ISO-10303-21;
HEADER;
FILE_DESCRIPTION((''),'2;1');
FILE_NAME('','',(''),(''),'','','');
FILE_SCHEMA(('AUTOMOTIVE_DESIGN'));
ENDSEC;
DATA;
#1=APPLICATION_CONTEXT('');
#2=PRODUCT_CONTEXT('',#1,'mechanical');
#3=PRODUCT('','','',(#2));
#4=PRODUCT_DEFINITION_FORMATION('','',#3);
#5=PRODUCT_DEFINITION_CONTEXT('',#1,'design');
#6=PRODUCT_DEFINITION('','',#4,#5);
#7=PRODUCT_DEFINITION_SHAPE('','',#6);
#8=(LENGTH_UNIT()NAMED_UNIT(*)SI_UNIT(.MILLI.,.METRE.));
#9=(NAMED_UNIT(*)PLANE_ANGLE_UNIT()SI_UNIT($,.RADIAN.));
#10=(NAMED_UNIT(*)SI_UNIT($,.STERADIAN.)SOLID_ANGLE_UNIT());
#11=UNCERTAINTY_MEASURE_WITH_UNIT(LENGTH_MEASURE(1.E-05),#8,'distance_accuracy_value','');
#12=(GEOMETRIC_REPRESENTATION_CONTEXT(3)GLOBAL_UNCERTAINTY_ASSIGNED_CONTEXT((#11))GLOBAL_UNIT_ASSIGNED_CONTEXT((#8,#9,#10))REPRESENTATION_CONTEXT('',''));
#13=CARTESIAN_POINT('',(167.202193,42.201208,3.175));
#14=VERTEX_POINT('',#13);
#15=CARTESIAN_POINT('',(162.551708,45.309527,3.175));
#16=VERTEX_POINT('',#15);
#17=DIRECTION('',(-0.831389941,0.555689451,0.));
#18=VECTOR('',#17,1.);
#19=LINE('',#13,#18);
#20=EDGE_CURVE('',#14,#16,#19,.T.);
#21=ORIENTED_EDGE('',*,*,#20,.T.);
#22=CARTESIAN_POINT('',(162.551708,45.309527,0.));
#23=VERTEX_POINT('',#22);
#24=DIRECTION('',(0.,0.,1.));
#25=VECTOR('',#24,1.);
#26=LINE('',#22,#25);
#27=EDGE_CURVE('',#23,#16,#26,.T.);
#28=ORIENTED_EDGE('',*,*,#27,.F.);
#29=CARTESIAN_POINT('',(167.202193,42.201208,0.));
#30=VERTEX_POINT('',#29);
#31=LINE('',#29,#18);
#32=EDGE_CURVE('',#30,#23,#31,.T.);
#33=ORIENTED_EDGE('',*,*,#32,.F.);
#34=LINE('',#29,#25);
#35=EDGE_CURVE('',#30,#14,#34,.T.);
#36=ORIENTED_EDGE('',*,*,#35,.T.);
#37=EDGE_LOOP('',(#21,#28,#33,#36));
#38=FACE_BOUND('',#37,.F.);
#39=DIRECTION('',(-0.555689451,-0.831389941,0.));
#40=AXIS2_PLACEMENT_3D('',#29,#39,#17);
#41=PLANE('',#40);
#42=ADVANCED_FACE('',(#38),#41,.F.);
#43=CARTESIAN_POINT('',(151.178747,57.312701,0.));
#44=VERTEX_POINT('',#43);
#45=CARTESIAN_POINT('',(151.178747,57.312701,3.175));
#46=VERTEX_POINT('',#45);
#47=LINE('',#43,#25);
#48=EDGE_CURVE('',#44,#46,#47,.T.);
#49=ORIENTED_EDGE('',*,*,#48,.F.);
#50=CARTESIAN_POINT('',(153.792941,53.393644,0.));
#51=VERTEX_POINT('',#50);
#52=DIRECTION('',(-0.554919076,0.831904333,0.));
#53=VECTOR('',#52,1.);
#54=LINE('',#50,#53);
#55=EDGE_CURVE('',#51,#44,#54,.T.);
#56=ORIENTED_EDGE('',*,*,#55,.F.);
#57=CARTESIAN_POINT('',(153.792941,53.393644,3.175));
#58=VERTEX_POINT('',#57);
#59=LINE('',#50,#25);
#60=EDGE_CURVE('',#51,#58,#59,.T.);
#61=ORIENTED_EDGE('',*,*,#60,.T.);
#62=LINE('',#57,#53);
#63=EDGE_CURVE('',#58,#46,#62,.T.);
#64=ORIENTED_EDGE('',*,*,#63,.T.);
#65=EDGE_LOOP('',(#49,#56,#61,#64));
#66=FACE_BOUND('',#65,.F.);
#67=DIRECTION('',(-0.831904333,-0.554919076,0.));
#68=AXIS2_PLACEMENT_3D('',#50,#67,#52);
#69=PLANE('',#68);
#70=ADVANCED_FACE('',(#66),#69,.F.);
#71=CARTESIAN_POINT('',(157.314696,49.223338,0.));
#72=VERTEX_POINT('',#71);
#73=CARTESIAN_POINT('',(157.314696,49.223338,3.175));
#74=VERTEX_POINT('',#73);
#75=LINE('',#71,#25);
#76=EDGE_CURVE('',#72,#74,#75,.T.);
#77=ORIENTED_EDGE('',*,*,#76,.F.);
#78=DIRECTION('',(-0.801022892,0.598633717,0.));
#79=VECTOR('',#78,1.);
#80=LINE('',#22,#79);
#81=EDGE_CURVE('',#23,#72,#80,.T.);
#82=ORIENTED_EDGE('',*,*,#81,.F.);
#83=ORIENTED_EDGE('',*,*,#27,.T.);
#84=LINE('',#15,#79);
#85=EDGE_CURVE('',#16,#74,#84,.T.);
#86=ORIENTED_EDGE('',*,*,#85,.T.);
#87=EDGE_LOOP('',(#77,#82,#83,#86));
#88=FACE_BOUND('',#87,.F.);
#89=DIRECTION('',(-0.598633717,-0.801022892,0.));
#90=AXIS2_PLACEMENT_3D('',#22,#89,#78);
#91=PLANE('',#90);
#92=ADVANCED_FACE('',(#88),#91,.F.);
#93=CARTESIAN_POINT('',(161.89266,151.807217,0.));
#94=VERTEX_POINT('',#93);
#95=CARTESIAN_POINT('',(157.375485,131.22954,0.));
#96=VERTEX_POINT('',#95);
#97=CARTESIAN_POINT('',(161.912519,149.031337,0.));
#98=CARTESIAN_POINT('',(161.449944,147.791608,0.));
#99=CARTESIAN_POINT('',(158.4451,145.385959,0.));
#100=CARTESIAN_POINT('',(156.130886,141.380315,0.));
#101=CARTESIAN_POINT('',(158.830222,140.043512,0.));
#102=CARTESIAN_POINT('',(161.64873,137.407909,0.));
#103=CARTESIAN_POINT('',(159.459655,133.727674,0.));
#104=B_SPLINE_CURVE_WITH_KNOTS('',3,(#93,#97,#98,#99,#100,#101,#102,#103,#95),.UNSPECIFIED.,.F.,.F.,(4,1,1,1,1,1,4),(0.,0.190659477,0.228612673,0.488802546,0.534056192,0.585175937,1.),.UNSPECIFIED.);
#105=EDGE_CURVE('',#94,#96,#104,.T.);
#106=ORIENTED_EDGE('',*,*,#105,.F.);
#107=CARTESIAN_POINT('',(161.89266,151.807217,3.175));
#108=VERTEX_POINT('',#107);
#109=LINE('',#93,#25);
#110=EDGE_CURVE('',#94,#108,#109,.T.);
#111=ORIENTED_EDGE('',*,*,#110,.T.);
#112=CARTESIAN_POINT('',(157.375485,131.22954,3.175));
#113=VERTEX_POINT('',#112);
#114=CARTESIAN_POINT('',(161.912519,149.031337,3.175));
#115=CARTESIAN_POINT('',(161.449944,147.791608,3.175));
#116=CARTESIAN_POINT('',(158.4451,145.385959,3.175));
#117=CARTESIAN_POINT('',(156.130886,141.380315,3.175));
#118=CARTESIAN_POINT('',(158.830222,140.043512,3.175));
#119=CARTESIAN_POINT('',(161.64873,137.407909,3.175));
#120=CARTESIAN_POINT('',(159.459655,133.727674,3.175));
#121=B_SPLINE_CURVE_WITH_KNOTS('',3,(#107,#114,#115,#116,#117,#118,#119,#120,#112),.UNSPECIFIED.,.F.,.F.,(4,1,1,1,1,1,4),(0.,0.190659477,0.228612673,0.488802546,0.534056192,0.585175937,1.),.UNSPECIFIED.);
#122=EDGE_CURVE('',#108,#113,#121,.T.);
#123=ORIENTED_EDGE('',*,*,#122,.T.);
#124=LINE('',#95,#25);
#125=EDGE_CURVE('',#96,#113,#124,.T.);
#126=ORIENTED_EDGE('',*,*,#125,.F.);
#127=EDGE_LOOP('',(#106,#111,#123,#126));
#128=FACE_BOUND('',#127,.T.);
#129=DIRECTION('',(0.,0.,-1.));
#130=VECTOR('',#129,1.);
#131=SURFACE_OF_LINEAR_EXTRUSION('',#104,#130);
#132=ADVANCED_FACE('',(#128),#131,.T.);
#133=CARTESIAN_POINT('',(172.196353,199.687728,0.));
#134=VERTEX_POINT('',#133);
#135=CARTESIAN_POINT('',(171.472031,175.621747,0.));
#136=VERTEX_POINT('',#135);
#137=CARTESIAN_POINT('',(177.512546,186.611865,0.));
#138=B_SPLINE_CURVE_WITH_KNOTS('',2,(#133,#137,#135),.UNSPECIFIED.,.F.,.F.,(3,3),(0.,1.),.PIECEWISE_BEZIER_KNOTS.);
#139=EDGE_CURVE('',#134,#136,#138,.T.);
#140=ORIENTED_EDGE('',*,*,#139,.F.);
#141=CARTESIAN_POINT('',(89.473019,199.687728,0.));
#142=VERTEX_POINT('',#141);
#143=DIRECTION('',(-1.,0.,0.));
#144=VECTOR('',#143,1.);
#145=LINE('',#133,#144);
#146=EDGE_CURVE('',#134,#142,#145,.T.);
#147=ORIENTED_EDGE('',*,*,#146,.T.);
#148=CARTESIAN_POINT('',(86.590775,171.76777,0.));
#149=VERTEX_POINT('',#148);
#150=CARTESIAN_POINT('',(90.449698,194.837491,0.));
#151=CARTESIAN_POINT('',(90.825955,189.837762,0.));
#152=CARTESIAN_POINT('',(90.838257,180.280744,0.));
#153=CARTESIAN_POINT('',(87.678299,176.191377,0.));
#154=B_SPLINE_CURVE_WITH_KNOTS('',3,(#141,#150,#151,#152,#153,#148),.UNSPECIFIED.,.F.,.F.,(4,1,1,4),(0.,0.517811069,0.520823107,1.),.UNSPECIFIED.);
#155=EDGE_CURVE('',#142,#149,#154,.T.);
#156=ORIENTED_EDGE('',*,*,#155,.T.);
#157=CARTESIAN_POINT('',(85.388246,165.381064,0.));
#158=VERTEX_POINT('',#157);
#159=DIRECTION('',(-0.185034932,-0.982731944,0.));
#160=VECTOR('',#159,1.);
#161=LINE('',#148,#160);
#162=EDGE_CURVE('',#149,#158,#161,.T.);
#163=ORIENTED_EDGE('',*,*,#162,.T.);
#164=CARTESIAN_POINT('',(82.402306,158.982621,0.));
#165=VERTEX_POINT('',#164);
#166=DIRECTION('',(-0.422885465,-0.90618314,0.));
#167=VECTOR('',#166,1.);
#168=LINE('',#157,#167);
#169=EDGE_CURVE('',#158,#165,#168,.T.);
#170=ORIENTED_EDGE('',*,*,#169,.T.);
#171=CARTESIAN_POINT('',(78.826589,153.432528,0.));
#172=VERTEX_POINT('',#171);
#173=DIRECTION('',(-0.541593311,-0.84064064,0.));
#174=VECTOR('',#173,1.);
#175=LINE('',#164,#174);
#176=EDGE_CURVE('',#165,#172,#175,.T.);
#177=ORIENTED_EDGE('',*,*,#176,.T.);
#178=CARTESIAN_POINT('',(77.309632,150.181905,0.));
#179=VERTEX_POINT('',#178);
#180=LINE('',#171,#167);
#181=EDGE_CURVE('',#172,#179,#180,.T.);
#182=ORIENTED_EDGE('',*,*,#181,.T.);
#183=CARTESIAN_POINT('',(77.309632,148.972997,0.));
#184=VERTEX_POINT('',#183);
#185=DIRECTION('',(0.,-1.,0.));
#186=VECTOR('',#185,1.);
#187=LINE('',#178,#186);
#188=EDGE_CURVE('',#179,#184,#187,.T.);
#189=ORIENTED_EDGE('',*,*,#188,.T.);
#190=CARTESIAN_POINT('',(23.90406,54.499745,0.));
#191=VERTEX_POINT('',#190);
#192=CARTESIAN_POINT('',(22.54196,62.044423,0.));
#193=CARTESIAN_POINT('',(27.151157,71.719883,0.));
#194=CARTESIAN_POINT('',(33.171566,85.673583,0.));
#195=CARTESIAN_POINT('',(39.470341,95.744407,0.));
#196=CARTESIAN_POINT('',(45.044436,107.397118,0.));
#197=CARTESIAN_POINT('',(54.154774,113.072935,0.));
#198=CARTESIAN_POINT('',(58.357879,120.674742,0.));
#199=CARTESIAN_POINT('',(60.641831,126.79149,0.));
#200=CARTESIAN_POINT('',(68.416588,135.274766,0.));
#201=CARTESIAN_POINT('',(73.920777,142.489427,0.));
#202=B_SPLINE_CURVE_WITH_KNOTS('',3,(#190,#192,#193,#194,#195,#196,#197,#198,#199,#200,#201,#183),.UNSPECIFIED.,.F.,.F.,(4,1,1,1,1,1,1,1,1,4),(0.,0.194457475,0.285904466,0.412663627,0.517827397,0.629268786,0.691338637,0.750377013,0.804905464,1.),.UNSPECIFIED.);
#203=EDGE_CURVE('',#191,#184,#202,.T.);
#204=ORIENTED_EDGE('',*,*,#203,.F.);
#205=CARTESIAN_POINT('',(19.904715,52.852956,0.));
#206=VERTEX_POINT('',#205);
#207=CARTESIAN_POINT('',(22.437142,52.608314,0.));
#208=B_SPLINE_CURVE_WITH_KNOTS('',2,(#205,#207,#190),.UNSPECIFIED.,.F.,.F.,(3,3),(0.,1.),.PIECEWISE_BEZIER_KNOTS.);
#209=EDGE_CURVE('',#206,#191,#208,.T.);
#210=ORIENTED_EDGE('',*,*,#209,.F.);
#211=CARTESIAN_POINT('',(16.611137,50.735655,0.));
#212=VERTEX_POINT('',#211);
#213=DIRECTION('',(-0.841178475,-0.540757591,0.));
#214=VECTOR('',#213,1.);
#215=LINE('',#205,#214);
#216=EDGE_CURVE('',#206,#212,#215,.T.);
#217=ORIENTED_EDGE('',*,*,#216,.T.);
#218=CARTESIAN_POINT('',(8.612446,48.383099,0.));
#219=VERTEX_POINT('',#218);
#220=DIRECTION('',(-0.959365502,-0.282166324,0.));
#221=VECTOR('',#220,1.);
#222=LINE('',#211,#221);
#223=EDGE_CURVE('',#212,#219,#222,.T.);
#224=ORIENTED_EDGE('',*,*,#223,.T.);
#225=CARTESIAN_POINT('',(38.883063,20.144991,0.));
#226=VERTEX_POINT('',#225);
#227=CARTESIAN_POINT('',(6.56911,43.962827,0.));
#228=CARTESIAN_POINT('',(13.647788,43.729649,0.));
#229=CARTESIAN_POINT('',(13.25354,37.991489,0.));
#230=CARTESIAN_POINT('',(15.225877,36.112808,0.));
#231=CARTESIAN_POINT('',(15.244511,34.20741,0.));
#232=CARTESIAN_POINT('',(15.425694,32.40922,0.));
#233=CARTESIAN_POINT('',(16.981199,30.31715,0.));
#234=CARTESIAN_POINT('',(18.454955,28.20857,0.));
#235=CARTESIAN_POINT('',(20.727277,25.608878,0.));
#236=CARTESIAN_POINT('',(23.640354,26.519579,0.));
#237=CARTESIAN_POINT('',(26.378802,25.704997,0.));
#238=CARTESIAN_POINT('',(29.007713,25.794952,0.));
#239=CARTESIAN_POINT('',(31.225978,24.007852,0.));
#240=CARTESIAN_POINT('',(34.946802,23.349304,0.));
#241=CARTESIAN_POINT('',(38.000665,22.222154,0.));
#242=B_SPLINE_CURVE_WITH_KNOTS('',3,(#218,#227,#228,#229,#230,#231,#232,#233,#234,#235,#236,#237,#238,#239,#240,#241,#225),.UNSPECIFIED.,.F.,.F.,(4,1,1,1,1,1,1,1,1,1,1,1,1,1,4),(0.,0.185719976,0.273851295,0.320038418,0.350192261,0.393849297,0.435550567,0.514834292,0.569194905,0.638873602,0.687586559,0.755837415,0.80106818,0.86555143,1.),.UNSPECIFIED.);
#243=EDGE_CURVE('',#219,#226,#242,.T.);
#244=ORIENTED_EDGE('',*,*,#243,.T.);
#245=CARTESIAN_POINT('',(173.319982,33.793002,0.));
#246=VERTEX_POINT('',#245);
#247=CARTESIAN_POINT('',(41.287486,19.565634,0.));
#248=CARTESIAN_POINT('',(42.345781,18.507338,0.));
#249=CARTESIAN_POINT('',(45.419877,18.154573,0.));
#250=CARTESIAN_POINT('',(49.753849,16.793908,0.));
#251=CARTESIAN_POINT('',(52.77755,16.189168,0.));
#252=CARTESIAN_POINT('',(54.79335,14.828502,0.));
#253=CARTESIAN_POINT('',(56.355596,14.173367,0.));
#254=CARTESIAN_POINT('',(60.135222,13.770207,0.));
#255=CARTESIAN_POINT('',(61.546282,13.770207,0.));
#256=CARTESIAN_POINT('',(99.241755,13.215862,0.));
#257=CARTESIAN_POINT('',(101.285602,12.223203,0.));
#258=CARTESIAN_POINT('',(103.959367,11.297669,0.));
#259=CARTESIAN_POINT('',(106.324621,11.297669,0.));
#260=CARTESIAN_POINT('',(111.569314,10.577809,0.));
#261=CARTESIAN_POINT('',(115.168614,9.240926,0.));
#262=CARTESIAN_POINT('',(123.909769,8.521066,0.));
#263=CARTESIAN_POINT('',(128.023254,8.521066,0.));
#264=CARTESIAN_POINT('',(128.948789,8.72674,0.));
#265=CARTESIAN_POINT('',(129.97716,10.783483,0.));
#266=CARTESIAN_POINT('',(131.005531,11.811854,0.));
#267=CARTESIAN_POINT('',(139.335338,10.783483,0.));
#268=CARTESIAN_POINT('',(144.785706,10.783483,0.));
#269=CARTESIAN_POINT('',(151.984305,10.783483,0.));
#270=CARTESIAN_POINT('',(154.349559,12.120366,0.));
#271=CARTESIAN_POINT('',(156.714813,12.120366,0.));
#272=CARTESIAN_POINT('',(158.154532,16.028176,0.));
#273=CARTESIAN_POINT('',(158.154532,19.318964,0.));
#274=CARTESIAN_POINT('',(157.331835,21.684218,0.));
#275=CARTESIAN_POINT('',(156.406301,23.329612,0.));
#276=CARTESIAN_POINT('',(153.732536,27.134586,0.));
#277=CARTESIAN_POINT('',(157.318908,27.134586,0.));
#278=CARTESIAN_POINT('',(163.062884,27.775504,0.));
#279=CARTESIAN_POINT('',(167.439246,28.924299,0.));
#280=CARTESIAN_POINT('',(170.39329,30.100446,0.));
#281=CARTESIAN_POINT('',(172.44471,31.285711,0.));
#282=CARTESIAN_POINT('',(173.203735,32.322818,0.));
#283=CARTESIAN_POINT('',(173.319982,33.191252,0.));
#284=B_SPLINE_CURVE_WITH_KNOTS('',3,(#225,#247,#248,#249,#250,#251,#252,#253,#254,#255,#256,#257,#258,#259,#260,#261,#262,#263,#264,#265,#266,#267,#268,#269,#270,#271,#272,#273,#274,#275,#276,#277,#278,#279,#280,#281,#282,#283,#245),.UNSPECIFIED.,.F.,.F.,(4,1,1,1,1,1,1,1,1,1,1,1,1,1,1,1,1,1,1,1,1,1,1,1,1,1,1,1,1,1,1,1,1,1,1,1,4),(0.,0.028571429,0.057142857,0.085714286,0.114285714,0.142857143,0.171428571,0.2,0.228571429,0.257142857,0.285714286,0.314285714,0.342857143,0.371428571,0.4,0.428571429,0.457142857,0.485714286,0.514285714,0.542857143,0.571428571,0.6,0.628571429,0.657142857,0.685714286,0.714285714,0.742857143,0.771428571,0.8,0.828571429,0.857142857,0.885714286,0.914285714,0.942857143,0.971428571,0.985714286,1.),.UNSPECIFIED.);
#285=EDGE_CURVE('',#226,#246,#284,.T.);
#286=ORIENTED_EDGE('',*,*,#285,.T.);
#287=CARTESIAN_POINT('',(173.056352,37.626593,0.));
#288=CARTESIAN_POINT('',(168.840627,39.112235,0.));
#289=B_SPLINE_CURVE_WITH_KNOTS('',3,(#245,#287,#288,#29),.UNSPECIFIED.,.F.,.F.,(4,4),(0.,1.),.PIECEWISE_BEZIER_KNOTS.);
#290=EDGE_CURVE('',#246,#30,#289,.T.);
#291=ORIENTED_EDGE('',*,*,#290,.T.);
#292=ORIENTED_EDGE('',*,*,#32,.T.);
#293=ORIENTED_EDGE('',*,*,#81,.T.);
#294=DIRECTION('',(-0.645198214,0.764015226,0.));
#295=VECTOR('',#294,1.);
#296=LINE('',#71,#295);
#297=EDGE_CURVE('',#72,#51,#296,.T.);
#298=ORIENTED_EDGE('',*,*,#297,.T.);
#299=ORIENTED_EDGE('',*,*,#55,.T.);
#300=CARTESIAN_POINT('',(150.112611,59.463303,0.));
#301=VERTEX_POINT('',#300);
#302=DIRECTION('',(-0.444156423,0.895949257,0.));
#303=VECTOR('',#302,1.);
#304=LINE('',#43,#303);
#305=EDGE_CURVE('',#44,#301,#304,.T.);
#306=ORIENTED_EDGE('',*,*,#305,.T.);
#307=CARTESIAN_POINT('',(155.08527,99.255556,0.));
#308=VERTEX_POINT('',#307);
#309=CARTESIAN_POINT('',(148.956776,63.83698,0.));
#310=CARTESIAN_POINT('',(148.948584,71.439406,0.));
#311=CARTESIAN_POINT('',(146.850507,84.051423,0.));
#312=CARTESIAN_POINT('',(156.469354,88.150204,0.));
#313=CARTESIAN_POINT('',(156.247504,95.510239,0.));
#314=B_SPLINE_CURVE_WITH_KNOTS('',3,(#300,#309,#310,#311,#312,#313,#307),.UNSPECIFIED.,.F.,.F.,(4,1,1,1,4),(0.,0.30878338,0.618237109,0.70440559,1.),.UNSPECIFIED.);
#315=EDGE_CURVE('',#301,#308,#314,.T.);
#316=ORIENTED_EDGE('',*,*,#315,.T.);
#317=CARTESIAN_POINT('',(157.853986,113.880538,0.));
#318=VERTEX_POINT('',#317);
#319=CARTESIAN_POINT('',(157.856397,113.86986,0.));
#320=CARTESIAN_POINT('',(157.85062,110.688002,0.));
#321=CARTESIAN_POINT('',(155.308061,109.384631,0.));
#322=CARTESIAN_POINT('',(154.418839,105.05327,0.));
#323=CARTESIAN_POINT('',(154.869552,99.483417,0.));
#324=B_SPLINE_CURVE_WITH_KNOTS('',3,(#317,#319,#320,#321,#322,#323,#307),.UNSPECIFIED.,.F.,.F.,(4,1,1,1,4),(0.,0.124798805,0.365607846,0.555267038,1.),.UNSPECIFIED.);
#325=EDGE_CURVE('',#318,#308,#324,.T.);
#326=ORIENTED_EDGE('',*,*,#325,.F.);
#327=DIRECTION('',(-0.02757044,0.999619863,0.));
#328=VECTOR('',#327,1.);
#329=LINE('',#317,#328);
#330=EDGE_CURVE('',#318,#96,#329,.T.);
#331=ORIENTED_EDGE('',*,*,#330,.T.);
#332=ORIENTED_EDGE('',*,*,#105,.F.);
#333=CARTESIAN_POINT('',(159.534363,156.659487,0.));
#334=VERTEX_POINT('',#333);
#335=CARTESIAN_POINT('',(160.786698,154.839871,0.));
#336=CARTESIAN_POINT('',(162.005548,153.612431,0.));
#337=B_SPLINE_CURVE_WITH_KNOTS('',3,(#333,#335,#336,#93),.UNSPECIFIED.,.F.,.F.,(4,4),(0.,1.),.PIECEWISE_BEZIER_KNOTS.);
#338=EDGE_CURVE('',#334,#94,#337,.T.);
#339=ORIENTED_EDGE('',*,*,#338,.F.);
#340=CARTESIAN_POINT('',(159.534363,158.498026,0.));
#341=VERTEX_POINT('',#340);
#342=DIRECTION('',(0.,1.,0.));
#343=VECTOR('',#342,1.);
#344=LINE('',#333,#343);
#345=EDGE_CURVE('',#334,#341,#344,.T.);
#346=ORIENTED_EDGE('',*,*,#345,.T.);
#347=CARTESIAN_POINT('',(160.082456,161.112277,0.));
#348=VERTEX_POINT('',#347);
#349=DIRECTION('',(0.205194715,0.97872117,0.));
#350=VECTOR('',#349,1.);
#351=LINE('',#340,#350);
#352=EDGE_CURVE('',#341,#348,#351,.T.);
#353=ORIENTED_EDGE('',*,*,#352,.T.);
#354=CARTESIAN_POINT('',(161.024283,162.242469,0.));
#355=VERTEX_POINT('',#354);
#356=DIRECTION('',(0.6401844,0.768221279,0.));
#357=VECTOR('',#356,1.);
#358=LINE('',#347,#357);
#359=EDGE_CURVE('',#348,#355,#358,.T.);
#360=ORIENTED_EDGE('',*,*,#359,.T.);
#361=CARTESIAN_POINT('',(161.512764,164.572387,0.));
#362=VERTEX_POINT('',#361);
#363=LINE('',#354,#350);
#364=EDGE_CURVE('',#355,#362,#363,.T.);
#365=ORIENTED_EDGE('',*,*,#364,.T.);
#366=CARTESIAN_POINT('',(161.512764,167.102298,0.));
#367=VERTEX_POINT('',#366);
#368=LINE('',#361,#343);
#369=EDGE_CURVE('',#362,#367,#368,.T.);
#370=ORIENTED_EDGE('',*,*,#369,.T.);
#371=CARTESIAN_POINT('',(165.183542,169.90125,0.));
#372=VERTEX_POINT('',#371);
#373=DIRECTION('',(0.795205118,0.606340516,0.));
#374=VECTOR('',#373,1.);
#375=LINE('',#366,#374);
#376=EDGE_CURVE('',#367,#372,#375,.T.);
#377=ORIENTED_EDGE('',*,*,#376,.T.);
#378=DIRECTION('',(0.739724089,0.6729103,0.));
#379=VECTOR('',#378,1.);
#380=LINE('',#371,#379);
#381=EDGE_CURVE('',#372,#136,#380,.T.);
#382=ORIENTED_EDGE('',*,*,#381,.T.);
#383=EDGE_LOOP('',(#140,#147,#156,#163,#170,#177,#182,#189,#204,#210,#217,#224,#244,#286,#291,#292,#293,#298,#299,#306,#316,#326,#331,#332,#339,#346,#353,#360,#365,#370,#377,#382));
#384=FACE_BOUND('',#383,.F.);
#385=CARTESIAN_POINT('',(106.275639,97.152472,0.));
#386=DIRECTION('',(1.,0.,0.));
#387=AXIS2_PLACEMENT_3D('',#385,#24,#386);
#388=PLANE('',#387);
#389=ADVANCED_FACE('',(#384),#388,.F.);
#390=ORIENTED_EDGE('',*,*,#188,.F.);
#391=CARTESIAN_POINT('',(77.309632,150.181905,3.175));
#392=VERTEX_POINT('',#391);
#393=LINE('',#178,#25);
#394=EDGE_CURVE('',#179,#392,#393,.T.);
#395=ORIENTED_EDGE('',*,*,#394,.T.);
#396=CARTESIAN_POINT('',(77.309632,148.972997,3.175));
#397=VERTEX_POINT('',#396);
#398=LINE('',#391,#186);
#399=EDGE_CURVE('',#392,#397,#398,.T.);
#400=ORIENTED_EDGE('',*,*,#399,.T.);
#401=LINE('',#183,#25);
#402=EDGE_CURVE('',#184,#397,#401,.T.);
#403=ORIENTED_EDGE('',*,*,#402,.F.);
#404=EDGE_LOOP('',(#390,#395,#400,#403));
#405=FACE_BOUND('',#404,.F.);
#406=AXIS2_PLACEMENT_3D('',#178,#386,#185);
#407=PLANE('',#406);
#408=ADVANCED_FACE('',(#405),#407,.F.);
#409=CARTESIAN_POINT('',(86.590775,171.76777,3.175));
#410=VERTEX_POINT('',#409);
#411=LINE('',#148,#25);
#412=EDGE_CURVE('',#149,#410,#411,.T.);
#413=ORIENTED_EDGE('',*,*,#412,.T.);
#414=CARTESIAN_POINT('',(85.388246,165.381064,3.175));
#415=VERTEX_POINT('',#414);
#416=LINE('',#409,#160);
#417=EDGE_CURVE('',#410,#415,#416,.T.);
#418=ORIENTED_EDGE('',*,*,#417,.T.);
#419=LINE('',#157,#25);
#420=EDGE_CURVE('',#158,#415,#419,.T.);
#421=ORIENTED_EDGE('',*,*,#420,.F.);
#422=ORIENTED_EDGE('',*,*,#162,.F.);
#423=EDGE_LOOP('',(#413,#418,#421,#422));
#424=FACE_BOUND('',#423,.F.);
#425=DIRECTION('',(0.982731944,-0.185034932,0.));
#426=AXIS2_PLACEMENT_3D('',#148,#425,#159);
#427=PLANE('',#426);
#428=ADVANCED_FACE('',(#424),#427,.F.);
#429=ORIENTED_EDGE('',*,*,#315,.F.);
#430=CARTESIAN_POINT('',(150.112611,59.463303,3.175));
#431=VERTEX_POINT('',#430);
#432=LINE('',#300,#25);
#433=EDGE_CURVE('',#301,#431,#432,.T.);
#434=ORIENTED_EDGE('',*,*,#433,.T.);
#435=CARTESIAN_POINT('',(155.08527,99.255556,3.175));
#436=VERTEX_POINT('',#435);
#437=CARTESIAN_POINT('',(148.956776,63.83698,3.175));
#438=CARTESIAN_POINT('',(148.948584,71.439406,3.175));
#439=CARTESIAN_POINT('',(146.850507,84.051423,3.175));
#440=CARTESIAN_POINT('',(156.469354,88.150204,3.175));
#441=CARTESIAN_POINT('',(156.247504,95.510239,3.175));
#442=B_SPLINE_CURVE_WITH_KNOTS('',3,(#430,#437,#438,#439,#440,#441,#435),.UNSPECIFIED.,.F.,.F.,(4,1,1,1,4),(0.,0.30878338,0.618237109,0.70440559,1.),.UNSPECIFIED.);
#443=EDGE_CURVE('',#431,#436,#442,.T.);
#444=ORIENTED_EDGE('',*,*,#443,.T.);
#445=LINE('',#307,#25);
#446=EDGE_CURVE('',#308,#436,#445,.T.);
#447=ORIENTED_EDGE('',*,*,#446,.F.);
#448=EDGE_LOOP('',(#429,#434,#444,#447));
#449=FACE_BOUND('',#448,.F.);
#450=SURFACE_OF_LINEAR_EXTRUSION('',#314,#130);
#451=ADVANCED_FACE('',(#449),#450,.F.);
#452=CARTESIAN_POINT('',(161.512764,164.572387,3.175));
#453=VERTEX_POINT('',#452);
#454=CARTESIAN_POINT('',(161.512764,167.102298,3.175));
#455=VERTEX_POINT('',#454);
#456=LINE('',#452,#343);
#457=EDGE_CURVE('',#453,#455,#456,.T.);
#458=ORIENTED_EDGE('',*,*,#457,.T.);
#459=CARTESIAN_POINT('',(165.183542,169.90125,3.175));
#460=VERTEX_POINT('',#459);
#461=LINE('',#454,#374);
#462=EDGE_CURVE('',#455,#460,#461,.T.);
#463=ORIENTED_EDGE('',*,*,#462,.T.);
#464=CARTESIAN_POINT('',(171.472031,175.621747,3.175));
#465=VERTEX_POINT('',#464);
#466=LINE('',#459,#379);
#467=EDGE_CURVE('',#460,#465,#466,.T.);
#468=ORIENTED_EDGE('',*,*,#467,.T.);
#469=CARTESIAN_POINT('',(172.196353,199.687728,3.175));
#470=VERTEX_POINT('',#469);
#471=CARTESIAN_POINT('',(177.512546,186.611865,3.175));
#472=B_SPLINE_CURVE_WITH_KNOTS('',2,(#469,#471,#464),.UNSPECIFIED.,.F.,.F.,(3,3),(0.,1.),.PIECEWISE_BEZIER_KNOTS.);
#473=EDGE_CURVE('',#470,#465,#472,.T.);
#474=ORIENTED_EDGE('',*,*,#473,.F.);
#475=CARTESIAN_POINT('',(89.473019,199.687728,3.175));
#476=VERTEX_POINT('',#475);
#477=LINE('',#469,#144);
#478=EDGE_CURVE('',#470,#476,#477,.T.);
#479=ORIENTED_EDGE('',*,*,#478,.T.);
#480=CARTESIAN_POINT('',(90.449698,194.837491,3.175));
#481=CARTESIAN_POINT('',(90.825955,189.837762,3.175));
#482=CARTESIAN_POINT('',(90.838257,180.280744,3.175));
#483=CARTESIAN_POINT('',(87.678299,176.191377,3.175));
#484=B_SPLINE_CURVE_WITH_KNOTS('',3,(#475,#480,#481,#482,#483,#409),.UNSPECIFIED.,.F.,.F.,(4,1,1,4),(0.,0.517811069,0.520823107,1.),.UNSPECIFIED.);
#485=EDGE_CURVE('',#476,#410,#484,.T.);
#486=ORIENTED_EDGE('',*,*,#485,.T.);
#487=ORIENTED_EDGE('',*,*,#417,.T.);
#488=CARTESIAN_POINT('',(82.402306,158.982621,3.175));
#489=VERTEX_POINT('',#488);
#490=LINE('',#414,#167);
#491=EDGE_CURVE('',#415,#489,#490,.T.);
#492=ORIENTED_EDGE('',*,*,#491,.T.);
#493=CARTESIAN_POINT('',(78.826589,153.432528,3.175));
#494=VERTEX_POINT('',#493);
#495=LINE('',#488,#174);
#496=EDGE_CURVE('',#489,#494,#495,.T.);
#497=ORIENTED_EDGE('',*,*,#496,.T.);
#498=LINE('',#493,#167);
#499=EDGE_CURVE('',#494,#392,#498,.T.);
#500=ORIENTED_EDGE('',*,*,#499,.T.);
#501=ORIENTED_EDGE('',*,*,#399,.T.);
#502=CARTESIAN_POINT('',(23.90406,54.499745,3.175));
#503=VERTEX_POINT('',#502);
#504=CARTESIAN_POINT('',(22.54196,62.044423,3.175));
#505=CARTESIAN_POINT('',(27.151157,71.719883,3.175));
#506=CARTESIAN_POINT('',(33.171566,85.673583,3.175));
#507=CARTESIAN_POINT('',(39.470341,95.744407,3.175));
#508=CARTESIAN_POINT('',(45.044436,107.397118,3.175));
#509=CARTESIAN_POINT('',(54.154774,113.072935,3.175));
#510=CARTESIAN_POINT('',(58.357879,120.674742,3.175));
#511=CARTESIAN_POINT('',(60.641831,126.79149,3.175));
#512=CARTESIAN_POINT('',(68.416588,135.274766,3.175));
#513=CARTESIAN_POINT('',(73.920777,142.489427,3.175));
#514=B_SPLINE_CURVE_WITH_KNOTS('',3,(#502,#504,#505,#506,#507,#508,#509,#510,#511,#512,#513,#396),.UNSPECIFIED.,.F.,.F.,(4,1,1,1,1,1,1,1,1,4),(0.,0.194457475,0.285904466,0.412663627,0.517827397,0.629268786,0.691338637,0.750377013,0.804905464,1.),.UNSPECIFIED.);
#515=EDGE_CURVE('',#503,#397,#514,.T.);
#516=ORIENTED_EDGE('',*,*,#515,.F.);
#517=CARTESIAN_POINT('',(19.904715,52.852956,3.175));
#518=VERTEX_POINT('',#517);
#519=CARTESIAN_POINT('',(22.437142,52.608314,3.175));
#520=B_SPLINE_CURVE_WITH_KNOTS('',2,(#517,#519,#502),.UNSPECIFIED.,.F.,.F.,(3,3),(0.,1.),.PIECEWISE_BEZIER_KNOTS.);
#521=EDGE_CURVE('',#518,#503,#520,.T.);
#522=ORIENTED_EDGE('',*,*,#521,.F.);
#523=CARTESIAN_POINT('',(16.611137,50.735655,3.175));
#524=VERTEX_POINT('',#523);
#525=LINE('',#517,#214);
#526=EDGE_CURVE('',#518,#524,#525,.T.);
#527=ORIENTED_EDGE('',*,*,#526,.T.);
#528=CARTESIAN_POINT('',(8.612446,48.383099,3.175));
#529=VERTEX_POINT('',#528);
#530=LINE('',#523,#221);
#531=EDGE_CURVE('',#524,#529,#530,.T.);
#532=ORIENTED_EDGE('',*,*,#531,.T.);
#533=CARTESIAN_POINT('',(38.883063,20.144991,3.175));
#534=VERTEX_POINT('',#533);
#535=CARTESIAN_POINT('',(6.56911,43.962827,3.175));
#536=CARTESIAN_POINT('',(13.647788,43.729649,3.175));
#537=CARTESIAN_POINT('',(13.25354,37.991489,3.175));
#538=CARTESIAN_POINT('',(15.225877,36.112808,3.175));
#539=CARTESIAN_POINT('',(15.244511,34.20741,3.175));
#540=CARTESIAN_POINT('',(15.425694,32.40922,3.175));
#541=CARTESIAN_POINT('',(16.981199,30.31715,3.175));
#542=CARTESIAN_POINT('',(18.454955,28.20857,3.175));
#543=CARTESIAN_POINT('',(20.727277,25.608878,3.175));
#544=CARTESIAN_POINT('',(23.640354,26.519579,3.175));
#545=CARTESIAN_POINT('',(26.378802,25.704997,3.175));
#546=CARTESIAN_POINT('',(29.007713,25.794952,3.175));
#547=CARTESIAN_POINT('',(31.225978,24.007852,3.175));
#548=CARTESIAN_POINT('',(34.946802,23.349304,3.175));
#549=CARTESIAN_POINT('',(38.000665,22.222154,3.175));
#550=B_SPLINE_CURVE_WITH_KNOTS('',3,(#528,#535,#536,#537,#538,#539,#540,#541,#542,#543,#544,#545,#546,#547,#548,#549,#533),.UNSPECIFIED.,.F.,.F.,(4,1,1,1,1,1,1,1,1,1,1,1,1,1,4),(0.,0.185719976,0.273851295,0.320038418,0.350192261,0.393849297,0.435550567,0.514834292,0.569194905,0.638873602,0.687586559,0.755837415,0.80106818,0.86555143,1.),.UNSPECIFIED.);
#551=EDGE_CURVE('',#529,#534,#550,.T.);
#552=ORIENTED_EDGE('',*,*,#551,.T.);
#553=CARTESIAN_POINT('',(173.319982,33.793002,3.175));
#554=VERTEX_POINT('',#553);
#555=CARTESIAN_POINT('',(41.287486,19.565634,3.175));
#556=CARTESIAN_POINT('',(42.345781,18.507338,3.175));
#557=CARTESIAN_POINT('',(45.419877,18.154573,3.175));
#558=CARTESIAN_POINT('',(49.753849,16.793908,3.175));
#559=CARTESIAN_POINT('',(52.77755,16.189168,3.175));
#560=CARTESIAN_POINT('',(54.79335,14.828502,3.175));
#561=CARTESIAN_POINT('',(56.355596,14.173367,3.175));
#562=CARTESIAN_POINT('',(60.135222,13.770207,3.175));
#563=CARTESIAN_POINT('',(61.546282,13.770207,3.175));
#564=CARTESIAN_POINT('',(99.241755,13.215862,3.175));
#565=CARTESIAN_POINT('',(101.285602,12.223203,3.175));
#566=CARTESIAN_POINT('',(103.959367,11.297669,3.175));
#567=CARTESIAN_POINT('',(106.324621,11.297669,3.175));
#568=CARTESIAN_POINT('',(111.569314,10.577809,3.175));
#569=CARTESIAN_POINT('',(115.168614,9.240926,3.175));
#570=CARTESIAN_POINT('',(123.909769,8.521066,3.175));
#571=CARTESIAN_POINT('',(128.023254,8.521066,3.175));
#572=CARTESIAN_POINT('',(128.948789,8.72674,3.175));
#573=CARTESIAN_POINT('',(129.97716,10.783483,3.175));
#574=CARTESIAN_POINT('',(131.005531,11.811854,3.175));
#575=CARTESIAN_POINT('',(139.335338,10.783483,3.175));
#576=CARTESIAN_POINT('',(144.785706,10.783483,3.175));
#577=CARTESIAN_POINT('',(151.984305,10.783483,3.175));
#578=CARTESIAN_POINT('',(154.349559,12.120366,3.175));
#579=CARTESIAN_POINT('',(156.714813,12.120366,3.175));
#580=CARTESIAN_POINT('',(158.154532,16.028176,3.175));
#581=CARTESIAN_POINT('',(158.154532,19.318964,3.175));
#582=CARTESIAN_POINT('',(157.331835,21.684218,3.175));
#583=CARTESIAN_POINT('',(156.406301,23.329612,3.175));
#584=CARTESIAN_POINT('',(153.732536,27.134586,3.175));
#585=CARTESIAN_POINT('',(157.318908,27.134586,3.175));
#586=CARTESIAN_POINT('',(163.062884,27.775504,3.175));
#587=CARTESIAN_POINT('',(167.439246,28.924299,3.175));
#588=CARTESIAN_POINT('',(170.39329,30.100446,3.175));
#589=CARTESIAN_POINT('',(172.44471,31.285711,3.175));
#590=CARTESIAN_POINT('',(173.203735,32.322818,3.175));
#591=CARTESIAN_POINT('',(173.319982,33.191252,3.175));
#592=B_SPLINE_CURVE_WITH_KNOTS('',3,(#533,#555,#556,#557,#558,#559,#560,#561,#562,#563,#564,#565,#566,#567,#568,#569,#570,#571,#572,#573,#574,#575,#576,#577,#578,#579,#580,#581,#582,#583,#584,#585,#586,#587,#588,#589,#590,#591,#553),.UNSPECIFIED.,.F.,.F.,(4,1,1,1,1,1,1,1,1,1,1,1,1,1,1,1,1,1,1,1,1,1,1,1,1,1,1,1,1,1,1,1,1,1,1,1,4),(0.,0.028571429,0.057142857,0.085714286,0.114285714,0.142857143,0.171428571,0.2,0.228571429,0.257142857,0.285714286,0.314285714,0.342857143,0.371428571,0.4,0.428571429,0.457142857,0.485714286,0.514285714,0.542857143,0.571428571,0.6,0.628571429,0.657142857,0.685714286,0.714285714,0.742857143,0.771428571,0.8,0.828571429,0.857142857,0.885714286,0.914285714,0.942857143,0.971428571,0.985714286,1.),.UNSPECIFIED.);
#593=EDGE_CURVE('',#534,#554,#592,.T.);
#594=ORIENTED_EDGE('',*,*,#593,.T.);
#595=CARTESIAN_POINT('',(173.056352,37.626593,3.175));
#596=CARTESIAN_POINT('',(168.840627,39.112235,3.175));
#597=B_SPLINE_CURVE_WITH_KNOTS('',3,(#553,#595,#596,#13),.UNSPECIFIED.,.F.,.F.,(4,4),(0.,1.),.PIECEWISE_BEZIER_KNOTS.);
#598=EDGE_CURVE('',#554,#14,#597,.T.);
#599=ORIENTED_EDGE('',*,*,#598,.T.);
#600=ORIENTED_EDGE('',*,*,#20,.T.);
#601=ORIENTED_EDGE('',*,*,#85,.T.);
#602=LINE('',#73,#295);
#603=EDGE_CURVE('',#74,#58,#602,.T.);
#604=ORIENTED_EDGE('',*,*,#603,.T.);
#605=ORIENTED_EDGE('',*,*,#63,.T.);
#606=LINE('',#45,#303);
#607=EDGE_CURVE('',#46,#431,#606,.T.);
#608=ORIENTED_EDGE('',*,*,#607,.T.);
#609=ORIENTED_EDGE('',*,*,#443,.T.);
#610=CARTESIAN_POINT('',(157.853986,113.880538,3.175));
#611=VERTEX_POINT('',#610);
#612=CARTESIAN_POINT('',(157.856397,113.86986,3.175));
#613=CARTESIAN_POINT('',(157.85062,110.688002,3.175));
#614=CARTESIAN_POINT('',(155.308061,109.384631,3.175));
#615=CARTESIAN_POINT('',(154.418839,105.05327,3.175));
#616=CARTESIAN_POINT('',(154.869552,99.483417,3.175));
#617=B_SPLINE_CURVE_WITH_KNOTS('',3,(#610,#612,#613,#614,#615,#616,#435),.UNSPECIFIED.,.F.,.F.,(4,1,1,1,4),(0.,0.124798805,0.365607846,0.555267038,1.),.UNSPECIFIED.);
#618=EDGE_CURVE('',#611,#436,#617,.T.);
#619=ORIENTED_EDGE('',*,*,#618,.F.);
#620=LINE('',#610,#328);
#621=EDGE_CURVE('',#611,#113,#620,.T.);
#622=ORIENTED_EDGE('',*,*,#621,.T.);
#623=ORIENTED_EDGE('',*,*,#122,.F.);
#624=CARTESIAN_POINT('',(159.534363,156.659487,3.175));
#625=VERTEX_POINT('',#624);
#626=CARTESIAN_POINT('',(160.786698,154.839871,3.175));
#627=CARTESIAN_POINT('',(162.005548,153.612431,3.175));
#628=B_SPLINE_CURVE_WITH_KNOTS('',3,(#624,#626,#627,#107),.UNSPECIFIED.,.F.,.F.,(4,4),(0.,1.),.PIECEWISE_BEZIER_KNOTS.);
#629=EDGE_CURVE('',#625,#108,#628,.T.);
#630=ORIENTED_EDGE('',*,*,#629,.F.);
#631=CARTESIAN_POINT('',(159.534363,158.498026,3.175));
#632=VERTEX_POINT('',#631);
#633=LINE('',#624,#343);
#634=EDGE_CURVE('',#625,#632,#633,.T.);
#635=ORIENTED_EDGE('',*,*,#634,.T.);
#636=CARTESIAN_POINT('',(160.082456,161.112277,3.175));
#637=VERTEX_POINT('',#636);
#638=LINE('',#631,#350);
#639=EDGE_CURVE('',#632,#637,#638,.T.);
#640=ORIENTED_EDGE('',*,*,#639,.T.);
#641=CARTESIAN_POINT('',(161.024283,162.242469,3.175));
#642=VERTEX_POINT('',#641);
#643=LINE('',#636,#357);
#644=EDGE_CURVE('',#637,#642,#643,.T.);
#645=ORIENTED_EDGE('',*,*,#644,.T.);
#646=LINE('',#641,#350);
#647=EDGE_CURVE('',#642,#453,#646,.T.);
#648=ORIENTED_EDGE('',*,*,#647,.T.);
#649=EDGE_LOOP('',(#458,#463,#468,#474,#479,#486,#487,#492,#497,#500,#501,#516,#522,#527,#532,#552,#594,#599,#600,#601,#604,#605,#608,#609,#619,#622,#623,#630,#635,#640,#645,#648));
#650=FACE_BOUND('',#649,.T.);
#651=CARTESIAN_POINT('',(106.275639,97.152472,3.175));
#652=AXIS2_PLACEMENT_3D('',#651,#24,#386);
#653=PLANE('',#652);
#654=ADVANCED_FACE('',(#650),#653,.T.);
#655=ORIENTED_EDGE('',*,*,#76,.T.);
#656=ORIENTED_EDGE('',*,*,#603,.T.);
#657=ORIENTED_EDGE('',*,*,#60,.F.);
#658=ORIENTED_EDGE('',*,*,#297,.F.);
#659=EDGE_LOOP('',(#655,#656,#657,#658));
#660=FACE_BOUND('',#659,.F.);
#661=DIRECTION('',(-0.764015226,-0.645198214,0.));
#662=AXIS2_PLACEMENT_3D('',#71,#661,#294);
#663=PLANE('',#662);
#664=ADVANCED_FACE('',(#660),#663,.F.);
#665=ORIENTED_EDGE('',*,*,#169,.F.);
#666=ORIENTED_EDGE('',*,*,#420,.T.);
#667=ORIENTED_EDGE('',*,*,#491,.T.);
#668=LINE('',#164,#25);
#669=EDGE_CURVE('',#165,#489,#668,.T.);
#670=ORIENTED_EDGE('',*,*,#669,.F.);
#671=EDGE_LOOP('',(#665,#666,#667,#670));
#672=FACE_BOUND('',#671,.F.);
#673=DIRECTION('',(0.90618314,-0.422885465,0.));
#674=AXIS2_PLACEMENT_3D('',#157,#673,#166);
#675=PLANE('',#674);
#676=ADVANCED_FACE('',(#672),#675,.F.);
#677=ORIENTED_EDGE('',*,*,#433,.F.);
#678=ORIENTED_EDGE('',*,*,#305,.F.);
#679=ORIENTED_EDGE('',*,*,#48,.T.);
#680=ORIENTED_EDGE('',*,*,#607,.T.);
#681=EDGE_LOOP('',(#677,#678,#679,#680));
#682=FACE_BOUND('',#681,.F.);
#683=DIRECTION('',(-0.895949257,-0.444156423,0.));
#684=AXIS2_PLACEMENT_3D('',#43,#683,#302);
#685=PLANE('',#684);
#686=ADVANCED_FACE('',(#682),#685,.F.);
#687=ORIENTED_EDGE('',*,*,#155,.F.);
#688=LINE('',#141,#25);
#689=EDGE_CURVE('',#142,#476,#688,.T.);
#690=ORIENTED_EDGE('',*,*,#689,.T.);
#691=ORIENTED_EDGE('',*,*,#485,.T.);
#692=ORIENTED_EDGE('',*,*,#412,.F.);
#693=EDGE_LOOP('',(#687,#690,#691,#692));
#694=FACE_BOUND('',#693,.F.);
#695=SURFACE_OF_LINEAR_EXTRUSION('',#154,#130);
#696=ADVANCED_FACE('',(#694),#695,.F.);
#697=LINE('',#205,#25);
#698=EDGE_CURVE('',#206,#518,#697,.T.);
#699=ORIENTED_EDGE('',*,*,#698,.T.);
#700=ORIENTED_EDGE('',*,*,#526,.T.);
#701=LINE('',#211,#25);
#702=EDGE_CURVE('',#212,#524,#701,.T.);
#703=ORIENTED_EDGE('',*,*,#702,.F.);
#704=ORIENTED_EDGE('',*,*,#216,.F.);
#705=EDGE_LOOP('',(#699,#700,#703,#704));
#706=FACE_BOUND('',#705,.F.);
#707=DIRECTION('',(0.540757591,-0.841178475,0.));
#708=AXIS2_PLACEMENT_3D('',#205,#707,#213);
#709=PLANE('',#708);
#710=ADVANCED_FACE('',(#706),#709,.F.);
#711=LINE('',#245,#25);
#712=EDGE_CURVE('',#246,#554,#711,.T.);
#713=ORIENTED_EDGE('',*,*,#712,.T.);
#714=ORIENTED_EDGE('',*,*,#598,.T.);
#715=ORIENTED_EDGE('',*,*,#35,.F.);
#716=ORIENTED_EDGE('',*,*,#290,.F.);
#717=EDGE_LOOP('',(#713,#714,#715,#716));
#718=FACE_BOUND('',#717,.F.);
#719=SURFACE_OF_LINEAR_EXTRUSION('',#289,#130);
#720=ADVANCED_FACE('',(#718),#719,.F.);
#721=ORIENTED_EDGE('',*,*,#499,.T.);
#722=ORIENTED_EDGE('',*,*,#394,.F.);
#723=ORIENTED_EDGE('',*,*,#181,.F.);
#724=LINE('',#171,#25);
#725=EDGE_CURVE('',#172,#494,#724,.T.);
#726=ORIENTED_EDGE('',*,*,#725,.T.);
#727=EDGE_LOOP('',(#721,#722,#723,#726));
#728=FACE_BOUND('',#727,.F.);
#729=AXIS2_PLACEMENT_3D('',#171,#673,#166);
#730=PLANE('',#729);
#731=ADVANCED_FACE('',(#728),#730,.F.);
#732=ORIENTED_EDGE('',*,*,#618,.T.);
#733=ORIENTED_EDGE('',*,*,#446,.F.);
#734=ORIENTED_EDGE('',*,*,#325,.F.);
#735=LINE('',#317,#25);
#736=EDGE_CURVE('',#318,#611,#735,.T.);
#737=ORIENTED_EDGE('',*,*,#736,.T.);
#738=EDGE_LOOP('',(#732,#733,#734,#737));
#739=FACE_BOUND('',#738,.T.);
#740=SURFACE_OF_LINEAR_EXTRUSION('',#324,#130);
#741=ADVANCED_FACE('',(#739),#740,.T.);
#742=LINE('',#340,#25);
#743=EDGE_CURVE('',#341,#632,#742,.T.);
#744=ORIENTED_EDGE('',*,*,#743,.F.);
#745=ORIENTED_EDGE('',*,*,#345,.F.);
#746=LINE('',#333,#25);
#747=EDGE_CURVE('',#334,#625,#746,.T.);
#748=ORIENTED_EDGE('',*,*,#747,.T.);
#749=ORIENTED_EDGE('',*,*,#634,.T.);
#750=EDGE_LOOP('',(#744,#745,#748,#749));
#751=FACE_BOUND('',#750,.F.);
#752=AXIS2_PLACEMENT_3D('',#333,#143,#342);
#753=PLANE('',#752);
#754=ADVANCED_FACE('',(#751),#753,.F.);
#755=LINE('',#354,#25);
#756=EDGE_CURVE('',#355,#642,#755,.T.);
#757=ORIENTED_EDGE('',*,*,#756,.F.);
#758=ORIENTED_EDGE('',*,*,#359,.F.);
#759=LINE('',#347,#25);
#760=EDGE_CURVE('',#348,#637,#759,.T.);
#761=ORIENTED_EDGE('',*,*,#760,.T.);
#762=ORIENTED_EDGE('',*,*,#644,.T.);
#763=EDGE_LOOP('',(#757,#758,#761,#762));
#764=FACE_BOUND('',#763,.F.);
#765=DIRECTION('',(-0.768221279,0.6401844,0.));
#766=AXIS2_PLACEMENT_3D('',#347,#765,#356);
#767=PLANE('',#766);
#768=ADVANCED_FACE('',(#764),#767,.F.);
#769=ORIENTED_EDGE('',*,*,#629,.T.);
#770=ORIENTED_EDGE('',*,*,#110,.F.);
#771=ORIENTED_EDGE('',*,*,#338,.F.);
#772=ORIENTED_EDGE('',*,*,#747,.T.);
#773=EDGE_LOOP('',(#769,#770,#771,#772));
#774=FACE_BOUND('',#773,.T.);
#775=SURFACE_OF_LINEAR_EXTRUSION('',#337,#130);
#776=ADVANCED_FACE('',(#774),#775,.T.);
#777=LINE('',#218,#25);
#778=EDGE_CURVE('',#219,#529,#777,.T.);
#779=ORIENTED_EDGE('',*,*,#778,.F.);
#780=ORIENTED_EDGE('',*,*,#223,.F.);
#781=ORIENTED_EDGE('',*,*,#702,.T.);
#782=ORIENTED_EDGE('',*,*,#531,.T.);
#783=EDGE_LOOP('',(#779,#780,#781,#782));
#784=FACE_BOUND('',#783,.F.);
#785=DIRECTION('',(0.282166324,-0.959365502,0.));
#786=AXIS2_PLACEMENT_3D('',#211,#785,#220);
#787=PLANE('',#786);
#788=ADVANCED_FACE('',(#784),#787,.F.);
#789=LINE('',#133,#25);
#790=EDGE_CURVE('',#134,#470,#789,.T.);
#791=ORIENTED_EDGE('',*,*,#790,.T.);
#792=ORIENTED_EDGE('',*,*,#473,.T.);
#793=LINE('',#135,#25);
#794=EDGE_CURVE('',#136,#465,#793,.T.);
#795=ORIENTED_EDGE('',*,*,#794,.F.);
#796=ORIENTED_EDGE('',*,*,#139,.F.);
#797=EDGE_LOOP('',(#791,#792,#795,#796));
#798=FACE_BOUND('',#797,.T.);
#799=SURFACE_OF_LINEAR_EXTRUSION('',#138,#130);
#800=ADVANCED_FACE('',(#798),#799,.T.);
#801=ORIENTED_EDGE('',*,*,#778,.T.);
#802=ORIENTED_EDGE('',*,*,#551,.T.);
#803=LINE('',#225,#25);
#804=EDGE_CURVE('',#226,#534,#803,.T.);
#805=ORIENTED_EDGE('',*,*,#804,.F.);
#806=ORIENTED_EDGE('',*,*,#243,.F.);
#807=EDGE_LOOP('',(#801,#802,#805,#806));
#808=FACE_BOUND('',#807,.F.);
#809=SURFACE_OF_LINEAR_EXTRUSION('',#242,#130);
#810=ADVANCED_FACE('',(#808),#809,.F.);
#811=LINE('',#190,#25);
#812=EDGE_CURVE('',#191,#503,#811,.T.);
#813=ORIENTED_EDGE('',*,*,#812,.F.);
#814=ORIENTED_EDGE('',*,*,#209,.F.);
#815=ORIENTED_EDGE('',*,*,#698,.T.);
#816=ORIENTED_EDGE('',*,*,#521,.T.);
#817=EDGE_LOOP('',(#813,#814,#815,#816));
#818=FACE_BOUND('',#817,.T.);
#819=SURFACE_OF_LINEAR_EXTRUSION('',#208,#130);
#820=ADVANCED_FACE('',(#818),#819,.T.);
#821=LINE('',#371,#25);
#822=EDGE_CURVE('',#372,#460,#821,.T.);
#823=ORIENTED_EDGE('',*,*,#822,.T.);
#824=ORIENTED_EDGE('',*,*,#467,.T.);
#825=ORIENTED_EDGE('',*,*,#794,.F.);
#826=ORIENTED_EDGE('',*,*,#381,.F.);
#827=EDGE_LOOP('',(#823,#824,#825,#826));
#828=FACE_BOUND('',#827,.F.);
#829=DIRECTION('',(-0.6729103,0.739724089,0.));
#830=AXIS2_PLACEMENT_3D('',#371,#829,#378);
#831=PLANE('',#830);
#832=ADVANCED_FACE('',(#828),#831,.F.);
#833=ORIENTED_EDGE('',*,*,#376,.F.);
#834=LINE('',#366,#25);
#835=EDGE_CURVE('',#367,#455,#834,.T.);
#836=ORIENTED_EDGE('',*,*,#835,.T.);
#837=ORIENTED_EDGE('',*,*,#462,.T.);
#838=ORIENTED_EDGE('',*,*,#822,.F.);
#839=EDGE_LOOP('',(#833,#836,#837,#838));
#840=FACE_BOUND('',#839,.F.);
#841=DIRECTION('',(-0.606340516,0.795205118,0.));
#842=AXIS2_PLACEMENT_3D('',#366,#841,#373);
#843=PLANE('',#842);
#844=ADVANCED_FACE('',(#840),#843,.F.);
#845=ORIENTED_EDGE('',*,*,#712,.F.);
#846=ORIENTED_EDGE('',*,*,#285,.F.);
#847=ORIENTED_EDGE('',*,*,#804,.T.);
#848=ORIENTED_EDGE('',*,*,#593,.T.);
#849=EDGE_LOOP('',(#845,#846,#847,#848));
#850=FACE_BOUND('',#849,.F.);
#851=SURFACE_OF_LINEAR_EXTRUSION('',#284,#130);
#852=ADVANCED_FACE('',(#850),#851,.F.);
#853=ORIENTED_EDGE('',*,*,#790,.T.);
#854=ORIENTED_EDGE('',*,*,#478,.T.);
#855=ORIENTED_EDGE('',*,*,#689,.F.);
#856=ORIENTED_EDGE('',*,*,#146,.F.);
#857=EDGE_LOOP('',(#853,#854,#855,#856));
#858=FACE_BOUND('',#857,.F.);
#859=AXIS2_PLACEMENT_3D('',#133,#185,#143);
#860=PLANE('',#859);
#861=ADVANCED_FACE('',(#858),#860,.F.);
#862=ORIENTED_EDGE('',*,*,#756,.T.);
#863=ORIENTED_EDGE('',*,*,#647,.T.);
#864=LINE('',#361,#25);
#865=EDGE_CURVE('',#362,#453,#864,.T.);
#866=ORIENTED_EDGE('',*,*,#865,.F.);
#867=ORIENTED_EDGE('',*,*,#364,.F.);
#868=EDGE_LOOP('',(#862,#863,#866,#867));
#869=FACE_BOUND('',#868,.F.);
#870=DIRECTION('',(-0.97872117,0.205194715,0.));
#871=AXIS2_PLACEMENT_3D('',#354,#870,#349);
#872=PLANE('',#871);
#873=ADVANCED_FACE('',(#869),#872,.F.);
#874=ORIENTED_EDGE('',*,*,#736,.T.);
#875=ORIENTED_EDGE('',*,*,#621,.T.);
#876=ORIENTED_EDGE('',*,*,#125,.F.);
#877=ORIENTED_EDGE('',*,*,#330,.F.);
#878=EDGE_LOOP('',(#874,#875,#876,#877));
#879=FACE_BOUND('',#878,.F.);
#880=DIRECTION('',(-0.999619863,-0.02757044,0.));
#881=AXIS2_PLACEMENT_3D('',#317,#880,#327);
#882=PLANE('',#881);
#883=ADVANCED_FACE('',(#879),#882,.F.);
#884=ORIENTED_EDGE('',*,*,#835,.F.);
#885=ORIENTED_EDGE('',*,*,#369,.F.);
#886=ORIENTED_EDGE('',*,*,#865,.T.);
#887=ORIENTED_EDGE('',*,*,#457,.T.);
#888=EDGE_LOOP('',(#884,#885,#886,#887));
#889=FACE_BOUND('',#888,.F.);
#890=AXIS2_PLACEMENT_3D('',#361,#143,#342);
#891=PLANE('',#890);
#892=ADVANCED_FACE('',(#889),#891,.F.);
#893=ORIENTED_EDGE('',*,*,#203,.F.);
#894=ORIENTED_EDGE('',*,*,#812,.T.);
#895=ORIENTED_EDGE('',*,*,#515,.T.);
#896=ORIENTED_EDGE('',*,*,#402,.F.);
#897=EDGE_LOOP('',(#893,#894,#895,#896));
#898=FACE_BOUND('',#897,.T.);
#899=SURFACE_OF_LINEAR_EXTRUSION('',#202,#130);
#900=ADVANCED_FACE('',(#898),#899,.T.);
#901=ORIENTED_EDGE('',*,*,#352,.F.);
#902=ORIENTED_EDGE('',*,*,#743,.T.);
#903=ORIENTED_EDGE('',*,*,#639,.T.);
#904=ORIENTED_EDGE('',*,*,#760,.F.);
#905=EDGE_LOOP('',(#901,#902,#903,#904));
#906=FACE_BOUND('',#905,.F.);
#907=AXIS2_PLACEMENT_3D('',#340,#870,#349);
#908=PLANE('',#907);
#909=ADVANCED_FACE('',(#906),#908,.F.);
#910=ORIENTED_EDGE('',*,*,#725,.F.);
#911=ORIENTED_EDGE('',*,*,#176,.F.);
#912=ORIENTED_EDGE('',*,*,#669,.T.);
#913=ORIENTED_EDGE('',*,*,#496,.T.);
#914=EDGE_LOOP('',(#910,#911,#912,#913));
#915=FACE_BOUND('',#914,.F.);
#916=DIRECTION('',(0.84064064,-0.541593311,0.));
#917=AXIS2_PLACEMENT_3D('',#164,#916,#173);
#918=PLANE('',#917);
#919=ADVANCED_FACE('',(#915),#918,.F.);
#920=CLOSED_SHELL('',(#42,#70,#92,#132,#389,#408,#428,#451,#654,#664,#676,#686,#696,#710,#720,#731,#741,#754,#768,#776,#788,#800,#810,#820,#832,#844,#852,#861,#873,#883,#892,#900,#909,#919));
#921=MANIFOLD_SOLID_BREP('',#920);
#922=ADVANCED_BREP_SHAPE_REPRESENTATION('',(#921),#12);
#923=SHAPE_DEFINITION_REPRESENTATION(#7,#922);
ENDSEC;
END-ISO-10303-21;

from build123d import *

# Parameters (mm, degrees)
BOSS_EXTRUDE2_DEPTH = 3.175


with BuildPart() as part:
    # Sketch1 → Boss-Extrude2 (new body)
    with BuildSketch(Plane.XY):
        with BuildLine():
            Line((167.202192931, 42.201207676), (162.551708352, 45.309526764))
            Line((162.551708352, 45.309526764), (157.314695785, 49.223337881))
            Line((157.314695785, 49.223337881), (153.792941224, 53.393644073))
            Line((153.792941224, 53.393644073), (151.178747268, 57.312700692))
            Line((151.178747268, 57.312700692), (150.112611404, 59.463302564))
            add(Edge.make_bspline(
                [(150.112611404, 59.463302564), (148.956776361, 63.836980097), (148.948583694, 71.439405876), (146.850507307, 84.051422667), (156.469353715, 88.150203705), (156.247504434, 95.51023866), (155.085269681, 99.2555556)],
                knots=[0, 0, 0, 0, 0.30878338, 0.618237109, 0.70440559, 1, 1, 1, 1], degree=3))
            add(Edge.make_bspline(
                [(157.85398611, 113.880538491), (157.856396998, 113.869859914), (157.850620297, 110.688002063), (155.308060719, 109.384630599), (154.418838948, 105.053269567), (154.8695522, 99.483416676), (155.085269681, 99.2555556)],
                knots=[0, 0, 0, 0, 0.124798805, 0.365607846, 0.555267038, 1, 1, 1, 1], degree=3))
            Line((157.85398611, 113.880538491), (157.37548461, 131.229540091))
            add(Edge.make_bspline(
                [(161.892659898, 151.807216677), (161.91251897, 149.031337188), (161.449944322, 147.791607901), (158.445100345, 145.385958906), (156.130886371, 141.380315264), (158.830222147, 140.043511959), (161.648730322, 137.407909117), (159.459654716, 133.727674066), (157.37548461, 131.229540091)],
                knots=[0, 0, 0, 0, 0.190659477, 0.228612673, 0.488802546, 0.534056192, 0.585175937, 1, 1, 1, 1], degree=3))
            add(Edge.make_bspline(
                [(159.534362736, 156.659486678), (160.786697559, 154.839870961), (162.005548182, 153.612430632), (161.892659898, 151.807216677)],
                knots=[0, 0, 0, 0, 1, 1, 1, 1], degree=3))
            Line((159.534362736, 156.659486678), (159.534362736, 158.498026385))
            Line((159.534362736, 158.498026385), (160.082455849, 161.112276627))
            Line((160.082455849, 161.112276627), (161.024283069, 162.24246929))
            Line((161.024283069, 162.24246929), (161.51276424, 164.572387305))
            Line((161.51276424, 164.572387305), (161.51276424, 167.102297744))
            Line((161.51276424, 167.102297744), (165.183542032, 169.901250177))
            Line((165.183542032, 169.901250177), (171.472031107, 175.621746691))
            add(Edge.make_bspline(
                [(172.196352762, 199.687728108), (177.512545782, 186.611864968), (171.472031107, 175.621746691)],
                knots=[0, 0, 0, 1, 1, 1], degree=2))
            Line((172.196352762, 199.687728108), (89.47301913, 199.687728108))
            add(Edge.make_bspline(
                [(89.47301913, 199.687728108), (90.449698127, 194.83749072), (90.825955315, 189.837761557), (90.838257386, 180.280743918), (87.678298822, 176.191377166), (86.590775441, 171.767770411)],
                knots=[0, 0, 0, 0, 0.517811069, 0.520823107, 1, 1, 1, 1], degree=3))
            Line((86.590775441, 171.767770411), (85.388246292, 165.381063893))
            Line((85.388246292, 165.381063893), (82.402306125, 158.982620678))
            Line((82.402306125, 158.982620678), (78.826589302, 153.432528352))
            Line((78.826589302, 153.432528352), (77.30963174, 150.181905003))
            Line((77.30963174, 150.181905003), (77.30963174, 148.972997238))
            add(Edge.make_bspline(
                [(23.904060298, 54.499744977), (22.54196001, 62.044422938), (27.151157223, 71.719882884), (33.171565612, 85.673583344), (39.470341202, 95.744406946), (45.044436084, 107.397118431), (54.154773918, 113.07293548), (58.357878564, 120.674742163), (60.641830631, 126.791490456), (68.416588167, 135.274765788), (73.920776574, 142.489426767), (77.30963174, 148.972997238)],
                knots=[0, 0, 0, 0, 0.194457475, 0.285904466, 0.412663627, 0.517827397, 0.629268786, 0.691338637, 0.750377013, 0.804905464, 1, 1, 1, 1], degree=3))
            add(Edge.make_bspline(
                [(19.90471503, 52.852955749), (22.437142387, 52.608313662), (23.904060298, 54.499744977)],
                knots=[0, 0, 0, 1, 1, 1], degree=2))
            Line((19.90471503, 52.852955749), (16.611136574, 50.735655313))
            Line((16.611136574, 50.735655313), (8.612446038, 48.383099273))
            add(Edge.make_bspline(
                [(8.612446038, 48.383099273), (6.569110394, 43.962826835), (13.647787757, 43.729648821), (13.25353988, 37.991488936), (15.22587651, 36.112808324), (15.244510931, 34.207409749), (15.425694449, 32.409220236), (16.98119857, 30.317149701), (18.454955258, 28.208570124), (20.727276999, 25.608877763), (23.640354073, 26.519579017), (26.378802415, 25.704997487), (29.007712932, 25.794951803), (31.225977748, 24.007852384), (34.946801718, 23.349304233), (38.00066538, 22.222153794), (38.883062856, 20.144990847)],
                knots=[0, 0, 0, 0, 0.185719976, 0.273851295, 0.320038418, 0.350192261, 0.393849297, 0.435550567, 0.514834292, 0.569194905, 0.638873602, 0.687586559, 0.755837415, 0.80106818, 0.86555143, 1, 1, 1, 1], degree=3))
            add(Edge.make_bspline(
                [(38.883062856, 20.144990847), (41.287485761, 19.565633761), (42.345781106, 18.507338416), (45.419877108, 18.154573301), (49.753848521, 16.793907858), (52.777549507, 16.18916766), (54.793350164, 14.828502217), (56.355595674, 14.173367003), (60.135221906, 13.770206872), (61.546282366, 13.770206872), (99.241754657, 13.215861691), (101.285601848, 12.223202762), (103.959367113, 11.297668631), (106.324621001, 11.297668631), (111.569314404, 10.577808752), (115.168613799, 9.24092612), (123.909769472, 8.521066241), (128.023254495, 8.521066241), (128.948788625, 8.726740492), (129.97715988, 10.783483004), (131.005531136, 11.811854259), (139.335338307, 10.783483004), (144.785705962, 10.783483004), (151.984304751, 10.783483004), (154.349558639, 12.120365636), (156.714812527, 12.120365636), (158.154532285, 16.028176407), (158.154532285, 19.318964425), (157.331835281, 21.684218313), (156.40630115, 23.329612322), (153.732535886, 27.134585968), (157.318908473, 27.134585968), (163.062883757, 27.775503981), (167.439245879, 28.924299038), (170.393290311, 30.100446358), (172.444710055, 31.285711099), (173.20373536, 32.322817748), (173.319982479, 33.191252106), (173.319982479, 33.793001898)],
                knots=[0, 0, 0, 0, 0.028571429, 0.057142857, 0.085714286, 0.114285714, 0.142857143, 0.171428571, 0.2, 0.228571429, 0.257142857, 0.285714286, 0.314285714, 0.342857143, 0.371428571, 0.4, 0.428571429, 0.457142857, 0.485714286, 0.514285714, 0.542857143, 0.571428571, 0.6, 0.628571429, 0.657142857, 0.685714286, 0.714285714, 0.742857143, 0.771428571, 0.8, 0.828571429, 0.857142857, 0.885714286, 0.914285714, 0.942857143, 0.971428571, 0.985714286, 1, 1, 1, 1], degree=3))
            add(Edge.make_bspline(
                [(173.319982479, 33.793001898), (173.056351571, 37.626592871), (168.840626644, 39.112234918), (167.202192931, 42.201207676)],
                knots=[0, 0, 0, 0, 1, 1, 1, 1], degree=3))
        make_face()
    extrude(amount=BOSS_EXTRUDE2_DEPTH)


solid = part.part
